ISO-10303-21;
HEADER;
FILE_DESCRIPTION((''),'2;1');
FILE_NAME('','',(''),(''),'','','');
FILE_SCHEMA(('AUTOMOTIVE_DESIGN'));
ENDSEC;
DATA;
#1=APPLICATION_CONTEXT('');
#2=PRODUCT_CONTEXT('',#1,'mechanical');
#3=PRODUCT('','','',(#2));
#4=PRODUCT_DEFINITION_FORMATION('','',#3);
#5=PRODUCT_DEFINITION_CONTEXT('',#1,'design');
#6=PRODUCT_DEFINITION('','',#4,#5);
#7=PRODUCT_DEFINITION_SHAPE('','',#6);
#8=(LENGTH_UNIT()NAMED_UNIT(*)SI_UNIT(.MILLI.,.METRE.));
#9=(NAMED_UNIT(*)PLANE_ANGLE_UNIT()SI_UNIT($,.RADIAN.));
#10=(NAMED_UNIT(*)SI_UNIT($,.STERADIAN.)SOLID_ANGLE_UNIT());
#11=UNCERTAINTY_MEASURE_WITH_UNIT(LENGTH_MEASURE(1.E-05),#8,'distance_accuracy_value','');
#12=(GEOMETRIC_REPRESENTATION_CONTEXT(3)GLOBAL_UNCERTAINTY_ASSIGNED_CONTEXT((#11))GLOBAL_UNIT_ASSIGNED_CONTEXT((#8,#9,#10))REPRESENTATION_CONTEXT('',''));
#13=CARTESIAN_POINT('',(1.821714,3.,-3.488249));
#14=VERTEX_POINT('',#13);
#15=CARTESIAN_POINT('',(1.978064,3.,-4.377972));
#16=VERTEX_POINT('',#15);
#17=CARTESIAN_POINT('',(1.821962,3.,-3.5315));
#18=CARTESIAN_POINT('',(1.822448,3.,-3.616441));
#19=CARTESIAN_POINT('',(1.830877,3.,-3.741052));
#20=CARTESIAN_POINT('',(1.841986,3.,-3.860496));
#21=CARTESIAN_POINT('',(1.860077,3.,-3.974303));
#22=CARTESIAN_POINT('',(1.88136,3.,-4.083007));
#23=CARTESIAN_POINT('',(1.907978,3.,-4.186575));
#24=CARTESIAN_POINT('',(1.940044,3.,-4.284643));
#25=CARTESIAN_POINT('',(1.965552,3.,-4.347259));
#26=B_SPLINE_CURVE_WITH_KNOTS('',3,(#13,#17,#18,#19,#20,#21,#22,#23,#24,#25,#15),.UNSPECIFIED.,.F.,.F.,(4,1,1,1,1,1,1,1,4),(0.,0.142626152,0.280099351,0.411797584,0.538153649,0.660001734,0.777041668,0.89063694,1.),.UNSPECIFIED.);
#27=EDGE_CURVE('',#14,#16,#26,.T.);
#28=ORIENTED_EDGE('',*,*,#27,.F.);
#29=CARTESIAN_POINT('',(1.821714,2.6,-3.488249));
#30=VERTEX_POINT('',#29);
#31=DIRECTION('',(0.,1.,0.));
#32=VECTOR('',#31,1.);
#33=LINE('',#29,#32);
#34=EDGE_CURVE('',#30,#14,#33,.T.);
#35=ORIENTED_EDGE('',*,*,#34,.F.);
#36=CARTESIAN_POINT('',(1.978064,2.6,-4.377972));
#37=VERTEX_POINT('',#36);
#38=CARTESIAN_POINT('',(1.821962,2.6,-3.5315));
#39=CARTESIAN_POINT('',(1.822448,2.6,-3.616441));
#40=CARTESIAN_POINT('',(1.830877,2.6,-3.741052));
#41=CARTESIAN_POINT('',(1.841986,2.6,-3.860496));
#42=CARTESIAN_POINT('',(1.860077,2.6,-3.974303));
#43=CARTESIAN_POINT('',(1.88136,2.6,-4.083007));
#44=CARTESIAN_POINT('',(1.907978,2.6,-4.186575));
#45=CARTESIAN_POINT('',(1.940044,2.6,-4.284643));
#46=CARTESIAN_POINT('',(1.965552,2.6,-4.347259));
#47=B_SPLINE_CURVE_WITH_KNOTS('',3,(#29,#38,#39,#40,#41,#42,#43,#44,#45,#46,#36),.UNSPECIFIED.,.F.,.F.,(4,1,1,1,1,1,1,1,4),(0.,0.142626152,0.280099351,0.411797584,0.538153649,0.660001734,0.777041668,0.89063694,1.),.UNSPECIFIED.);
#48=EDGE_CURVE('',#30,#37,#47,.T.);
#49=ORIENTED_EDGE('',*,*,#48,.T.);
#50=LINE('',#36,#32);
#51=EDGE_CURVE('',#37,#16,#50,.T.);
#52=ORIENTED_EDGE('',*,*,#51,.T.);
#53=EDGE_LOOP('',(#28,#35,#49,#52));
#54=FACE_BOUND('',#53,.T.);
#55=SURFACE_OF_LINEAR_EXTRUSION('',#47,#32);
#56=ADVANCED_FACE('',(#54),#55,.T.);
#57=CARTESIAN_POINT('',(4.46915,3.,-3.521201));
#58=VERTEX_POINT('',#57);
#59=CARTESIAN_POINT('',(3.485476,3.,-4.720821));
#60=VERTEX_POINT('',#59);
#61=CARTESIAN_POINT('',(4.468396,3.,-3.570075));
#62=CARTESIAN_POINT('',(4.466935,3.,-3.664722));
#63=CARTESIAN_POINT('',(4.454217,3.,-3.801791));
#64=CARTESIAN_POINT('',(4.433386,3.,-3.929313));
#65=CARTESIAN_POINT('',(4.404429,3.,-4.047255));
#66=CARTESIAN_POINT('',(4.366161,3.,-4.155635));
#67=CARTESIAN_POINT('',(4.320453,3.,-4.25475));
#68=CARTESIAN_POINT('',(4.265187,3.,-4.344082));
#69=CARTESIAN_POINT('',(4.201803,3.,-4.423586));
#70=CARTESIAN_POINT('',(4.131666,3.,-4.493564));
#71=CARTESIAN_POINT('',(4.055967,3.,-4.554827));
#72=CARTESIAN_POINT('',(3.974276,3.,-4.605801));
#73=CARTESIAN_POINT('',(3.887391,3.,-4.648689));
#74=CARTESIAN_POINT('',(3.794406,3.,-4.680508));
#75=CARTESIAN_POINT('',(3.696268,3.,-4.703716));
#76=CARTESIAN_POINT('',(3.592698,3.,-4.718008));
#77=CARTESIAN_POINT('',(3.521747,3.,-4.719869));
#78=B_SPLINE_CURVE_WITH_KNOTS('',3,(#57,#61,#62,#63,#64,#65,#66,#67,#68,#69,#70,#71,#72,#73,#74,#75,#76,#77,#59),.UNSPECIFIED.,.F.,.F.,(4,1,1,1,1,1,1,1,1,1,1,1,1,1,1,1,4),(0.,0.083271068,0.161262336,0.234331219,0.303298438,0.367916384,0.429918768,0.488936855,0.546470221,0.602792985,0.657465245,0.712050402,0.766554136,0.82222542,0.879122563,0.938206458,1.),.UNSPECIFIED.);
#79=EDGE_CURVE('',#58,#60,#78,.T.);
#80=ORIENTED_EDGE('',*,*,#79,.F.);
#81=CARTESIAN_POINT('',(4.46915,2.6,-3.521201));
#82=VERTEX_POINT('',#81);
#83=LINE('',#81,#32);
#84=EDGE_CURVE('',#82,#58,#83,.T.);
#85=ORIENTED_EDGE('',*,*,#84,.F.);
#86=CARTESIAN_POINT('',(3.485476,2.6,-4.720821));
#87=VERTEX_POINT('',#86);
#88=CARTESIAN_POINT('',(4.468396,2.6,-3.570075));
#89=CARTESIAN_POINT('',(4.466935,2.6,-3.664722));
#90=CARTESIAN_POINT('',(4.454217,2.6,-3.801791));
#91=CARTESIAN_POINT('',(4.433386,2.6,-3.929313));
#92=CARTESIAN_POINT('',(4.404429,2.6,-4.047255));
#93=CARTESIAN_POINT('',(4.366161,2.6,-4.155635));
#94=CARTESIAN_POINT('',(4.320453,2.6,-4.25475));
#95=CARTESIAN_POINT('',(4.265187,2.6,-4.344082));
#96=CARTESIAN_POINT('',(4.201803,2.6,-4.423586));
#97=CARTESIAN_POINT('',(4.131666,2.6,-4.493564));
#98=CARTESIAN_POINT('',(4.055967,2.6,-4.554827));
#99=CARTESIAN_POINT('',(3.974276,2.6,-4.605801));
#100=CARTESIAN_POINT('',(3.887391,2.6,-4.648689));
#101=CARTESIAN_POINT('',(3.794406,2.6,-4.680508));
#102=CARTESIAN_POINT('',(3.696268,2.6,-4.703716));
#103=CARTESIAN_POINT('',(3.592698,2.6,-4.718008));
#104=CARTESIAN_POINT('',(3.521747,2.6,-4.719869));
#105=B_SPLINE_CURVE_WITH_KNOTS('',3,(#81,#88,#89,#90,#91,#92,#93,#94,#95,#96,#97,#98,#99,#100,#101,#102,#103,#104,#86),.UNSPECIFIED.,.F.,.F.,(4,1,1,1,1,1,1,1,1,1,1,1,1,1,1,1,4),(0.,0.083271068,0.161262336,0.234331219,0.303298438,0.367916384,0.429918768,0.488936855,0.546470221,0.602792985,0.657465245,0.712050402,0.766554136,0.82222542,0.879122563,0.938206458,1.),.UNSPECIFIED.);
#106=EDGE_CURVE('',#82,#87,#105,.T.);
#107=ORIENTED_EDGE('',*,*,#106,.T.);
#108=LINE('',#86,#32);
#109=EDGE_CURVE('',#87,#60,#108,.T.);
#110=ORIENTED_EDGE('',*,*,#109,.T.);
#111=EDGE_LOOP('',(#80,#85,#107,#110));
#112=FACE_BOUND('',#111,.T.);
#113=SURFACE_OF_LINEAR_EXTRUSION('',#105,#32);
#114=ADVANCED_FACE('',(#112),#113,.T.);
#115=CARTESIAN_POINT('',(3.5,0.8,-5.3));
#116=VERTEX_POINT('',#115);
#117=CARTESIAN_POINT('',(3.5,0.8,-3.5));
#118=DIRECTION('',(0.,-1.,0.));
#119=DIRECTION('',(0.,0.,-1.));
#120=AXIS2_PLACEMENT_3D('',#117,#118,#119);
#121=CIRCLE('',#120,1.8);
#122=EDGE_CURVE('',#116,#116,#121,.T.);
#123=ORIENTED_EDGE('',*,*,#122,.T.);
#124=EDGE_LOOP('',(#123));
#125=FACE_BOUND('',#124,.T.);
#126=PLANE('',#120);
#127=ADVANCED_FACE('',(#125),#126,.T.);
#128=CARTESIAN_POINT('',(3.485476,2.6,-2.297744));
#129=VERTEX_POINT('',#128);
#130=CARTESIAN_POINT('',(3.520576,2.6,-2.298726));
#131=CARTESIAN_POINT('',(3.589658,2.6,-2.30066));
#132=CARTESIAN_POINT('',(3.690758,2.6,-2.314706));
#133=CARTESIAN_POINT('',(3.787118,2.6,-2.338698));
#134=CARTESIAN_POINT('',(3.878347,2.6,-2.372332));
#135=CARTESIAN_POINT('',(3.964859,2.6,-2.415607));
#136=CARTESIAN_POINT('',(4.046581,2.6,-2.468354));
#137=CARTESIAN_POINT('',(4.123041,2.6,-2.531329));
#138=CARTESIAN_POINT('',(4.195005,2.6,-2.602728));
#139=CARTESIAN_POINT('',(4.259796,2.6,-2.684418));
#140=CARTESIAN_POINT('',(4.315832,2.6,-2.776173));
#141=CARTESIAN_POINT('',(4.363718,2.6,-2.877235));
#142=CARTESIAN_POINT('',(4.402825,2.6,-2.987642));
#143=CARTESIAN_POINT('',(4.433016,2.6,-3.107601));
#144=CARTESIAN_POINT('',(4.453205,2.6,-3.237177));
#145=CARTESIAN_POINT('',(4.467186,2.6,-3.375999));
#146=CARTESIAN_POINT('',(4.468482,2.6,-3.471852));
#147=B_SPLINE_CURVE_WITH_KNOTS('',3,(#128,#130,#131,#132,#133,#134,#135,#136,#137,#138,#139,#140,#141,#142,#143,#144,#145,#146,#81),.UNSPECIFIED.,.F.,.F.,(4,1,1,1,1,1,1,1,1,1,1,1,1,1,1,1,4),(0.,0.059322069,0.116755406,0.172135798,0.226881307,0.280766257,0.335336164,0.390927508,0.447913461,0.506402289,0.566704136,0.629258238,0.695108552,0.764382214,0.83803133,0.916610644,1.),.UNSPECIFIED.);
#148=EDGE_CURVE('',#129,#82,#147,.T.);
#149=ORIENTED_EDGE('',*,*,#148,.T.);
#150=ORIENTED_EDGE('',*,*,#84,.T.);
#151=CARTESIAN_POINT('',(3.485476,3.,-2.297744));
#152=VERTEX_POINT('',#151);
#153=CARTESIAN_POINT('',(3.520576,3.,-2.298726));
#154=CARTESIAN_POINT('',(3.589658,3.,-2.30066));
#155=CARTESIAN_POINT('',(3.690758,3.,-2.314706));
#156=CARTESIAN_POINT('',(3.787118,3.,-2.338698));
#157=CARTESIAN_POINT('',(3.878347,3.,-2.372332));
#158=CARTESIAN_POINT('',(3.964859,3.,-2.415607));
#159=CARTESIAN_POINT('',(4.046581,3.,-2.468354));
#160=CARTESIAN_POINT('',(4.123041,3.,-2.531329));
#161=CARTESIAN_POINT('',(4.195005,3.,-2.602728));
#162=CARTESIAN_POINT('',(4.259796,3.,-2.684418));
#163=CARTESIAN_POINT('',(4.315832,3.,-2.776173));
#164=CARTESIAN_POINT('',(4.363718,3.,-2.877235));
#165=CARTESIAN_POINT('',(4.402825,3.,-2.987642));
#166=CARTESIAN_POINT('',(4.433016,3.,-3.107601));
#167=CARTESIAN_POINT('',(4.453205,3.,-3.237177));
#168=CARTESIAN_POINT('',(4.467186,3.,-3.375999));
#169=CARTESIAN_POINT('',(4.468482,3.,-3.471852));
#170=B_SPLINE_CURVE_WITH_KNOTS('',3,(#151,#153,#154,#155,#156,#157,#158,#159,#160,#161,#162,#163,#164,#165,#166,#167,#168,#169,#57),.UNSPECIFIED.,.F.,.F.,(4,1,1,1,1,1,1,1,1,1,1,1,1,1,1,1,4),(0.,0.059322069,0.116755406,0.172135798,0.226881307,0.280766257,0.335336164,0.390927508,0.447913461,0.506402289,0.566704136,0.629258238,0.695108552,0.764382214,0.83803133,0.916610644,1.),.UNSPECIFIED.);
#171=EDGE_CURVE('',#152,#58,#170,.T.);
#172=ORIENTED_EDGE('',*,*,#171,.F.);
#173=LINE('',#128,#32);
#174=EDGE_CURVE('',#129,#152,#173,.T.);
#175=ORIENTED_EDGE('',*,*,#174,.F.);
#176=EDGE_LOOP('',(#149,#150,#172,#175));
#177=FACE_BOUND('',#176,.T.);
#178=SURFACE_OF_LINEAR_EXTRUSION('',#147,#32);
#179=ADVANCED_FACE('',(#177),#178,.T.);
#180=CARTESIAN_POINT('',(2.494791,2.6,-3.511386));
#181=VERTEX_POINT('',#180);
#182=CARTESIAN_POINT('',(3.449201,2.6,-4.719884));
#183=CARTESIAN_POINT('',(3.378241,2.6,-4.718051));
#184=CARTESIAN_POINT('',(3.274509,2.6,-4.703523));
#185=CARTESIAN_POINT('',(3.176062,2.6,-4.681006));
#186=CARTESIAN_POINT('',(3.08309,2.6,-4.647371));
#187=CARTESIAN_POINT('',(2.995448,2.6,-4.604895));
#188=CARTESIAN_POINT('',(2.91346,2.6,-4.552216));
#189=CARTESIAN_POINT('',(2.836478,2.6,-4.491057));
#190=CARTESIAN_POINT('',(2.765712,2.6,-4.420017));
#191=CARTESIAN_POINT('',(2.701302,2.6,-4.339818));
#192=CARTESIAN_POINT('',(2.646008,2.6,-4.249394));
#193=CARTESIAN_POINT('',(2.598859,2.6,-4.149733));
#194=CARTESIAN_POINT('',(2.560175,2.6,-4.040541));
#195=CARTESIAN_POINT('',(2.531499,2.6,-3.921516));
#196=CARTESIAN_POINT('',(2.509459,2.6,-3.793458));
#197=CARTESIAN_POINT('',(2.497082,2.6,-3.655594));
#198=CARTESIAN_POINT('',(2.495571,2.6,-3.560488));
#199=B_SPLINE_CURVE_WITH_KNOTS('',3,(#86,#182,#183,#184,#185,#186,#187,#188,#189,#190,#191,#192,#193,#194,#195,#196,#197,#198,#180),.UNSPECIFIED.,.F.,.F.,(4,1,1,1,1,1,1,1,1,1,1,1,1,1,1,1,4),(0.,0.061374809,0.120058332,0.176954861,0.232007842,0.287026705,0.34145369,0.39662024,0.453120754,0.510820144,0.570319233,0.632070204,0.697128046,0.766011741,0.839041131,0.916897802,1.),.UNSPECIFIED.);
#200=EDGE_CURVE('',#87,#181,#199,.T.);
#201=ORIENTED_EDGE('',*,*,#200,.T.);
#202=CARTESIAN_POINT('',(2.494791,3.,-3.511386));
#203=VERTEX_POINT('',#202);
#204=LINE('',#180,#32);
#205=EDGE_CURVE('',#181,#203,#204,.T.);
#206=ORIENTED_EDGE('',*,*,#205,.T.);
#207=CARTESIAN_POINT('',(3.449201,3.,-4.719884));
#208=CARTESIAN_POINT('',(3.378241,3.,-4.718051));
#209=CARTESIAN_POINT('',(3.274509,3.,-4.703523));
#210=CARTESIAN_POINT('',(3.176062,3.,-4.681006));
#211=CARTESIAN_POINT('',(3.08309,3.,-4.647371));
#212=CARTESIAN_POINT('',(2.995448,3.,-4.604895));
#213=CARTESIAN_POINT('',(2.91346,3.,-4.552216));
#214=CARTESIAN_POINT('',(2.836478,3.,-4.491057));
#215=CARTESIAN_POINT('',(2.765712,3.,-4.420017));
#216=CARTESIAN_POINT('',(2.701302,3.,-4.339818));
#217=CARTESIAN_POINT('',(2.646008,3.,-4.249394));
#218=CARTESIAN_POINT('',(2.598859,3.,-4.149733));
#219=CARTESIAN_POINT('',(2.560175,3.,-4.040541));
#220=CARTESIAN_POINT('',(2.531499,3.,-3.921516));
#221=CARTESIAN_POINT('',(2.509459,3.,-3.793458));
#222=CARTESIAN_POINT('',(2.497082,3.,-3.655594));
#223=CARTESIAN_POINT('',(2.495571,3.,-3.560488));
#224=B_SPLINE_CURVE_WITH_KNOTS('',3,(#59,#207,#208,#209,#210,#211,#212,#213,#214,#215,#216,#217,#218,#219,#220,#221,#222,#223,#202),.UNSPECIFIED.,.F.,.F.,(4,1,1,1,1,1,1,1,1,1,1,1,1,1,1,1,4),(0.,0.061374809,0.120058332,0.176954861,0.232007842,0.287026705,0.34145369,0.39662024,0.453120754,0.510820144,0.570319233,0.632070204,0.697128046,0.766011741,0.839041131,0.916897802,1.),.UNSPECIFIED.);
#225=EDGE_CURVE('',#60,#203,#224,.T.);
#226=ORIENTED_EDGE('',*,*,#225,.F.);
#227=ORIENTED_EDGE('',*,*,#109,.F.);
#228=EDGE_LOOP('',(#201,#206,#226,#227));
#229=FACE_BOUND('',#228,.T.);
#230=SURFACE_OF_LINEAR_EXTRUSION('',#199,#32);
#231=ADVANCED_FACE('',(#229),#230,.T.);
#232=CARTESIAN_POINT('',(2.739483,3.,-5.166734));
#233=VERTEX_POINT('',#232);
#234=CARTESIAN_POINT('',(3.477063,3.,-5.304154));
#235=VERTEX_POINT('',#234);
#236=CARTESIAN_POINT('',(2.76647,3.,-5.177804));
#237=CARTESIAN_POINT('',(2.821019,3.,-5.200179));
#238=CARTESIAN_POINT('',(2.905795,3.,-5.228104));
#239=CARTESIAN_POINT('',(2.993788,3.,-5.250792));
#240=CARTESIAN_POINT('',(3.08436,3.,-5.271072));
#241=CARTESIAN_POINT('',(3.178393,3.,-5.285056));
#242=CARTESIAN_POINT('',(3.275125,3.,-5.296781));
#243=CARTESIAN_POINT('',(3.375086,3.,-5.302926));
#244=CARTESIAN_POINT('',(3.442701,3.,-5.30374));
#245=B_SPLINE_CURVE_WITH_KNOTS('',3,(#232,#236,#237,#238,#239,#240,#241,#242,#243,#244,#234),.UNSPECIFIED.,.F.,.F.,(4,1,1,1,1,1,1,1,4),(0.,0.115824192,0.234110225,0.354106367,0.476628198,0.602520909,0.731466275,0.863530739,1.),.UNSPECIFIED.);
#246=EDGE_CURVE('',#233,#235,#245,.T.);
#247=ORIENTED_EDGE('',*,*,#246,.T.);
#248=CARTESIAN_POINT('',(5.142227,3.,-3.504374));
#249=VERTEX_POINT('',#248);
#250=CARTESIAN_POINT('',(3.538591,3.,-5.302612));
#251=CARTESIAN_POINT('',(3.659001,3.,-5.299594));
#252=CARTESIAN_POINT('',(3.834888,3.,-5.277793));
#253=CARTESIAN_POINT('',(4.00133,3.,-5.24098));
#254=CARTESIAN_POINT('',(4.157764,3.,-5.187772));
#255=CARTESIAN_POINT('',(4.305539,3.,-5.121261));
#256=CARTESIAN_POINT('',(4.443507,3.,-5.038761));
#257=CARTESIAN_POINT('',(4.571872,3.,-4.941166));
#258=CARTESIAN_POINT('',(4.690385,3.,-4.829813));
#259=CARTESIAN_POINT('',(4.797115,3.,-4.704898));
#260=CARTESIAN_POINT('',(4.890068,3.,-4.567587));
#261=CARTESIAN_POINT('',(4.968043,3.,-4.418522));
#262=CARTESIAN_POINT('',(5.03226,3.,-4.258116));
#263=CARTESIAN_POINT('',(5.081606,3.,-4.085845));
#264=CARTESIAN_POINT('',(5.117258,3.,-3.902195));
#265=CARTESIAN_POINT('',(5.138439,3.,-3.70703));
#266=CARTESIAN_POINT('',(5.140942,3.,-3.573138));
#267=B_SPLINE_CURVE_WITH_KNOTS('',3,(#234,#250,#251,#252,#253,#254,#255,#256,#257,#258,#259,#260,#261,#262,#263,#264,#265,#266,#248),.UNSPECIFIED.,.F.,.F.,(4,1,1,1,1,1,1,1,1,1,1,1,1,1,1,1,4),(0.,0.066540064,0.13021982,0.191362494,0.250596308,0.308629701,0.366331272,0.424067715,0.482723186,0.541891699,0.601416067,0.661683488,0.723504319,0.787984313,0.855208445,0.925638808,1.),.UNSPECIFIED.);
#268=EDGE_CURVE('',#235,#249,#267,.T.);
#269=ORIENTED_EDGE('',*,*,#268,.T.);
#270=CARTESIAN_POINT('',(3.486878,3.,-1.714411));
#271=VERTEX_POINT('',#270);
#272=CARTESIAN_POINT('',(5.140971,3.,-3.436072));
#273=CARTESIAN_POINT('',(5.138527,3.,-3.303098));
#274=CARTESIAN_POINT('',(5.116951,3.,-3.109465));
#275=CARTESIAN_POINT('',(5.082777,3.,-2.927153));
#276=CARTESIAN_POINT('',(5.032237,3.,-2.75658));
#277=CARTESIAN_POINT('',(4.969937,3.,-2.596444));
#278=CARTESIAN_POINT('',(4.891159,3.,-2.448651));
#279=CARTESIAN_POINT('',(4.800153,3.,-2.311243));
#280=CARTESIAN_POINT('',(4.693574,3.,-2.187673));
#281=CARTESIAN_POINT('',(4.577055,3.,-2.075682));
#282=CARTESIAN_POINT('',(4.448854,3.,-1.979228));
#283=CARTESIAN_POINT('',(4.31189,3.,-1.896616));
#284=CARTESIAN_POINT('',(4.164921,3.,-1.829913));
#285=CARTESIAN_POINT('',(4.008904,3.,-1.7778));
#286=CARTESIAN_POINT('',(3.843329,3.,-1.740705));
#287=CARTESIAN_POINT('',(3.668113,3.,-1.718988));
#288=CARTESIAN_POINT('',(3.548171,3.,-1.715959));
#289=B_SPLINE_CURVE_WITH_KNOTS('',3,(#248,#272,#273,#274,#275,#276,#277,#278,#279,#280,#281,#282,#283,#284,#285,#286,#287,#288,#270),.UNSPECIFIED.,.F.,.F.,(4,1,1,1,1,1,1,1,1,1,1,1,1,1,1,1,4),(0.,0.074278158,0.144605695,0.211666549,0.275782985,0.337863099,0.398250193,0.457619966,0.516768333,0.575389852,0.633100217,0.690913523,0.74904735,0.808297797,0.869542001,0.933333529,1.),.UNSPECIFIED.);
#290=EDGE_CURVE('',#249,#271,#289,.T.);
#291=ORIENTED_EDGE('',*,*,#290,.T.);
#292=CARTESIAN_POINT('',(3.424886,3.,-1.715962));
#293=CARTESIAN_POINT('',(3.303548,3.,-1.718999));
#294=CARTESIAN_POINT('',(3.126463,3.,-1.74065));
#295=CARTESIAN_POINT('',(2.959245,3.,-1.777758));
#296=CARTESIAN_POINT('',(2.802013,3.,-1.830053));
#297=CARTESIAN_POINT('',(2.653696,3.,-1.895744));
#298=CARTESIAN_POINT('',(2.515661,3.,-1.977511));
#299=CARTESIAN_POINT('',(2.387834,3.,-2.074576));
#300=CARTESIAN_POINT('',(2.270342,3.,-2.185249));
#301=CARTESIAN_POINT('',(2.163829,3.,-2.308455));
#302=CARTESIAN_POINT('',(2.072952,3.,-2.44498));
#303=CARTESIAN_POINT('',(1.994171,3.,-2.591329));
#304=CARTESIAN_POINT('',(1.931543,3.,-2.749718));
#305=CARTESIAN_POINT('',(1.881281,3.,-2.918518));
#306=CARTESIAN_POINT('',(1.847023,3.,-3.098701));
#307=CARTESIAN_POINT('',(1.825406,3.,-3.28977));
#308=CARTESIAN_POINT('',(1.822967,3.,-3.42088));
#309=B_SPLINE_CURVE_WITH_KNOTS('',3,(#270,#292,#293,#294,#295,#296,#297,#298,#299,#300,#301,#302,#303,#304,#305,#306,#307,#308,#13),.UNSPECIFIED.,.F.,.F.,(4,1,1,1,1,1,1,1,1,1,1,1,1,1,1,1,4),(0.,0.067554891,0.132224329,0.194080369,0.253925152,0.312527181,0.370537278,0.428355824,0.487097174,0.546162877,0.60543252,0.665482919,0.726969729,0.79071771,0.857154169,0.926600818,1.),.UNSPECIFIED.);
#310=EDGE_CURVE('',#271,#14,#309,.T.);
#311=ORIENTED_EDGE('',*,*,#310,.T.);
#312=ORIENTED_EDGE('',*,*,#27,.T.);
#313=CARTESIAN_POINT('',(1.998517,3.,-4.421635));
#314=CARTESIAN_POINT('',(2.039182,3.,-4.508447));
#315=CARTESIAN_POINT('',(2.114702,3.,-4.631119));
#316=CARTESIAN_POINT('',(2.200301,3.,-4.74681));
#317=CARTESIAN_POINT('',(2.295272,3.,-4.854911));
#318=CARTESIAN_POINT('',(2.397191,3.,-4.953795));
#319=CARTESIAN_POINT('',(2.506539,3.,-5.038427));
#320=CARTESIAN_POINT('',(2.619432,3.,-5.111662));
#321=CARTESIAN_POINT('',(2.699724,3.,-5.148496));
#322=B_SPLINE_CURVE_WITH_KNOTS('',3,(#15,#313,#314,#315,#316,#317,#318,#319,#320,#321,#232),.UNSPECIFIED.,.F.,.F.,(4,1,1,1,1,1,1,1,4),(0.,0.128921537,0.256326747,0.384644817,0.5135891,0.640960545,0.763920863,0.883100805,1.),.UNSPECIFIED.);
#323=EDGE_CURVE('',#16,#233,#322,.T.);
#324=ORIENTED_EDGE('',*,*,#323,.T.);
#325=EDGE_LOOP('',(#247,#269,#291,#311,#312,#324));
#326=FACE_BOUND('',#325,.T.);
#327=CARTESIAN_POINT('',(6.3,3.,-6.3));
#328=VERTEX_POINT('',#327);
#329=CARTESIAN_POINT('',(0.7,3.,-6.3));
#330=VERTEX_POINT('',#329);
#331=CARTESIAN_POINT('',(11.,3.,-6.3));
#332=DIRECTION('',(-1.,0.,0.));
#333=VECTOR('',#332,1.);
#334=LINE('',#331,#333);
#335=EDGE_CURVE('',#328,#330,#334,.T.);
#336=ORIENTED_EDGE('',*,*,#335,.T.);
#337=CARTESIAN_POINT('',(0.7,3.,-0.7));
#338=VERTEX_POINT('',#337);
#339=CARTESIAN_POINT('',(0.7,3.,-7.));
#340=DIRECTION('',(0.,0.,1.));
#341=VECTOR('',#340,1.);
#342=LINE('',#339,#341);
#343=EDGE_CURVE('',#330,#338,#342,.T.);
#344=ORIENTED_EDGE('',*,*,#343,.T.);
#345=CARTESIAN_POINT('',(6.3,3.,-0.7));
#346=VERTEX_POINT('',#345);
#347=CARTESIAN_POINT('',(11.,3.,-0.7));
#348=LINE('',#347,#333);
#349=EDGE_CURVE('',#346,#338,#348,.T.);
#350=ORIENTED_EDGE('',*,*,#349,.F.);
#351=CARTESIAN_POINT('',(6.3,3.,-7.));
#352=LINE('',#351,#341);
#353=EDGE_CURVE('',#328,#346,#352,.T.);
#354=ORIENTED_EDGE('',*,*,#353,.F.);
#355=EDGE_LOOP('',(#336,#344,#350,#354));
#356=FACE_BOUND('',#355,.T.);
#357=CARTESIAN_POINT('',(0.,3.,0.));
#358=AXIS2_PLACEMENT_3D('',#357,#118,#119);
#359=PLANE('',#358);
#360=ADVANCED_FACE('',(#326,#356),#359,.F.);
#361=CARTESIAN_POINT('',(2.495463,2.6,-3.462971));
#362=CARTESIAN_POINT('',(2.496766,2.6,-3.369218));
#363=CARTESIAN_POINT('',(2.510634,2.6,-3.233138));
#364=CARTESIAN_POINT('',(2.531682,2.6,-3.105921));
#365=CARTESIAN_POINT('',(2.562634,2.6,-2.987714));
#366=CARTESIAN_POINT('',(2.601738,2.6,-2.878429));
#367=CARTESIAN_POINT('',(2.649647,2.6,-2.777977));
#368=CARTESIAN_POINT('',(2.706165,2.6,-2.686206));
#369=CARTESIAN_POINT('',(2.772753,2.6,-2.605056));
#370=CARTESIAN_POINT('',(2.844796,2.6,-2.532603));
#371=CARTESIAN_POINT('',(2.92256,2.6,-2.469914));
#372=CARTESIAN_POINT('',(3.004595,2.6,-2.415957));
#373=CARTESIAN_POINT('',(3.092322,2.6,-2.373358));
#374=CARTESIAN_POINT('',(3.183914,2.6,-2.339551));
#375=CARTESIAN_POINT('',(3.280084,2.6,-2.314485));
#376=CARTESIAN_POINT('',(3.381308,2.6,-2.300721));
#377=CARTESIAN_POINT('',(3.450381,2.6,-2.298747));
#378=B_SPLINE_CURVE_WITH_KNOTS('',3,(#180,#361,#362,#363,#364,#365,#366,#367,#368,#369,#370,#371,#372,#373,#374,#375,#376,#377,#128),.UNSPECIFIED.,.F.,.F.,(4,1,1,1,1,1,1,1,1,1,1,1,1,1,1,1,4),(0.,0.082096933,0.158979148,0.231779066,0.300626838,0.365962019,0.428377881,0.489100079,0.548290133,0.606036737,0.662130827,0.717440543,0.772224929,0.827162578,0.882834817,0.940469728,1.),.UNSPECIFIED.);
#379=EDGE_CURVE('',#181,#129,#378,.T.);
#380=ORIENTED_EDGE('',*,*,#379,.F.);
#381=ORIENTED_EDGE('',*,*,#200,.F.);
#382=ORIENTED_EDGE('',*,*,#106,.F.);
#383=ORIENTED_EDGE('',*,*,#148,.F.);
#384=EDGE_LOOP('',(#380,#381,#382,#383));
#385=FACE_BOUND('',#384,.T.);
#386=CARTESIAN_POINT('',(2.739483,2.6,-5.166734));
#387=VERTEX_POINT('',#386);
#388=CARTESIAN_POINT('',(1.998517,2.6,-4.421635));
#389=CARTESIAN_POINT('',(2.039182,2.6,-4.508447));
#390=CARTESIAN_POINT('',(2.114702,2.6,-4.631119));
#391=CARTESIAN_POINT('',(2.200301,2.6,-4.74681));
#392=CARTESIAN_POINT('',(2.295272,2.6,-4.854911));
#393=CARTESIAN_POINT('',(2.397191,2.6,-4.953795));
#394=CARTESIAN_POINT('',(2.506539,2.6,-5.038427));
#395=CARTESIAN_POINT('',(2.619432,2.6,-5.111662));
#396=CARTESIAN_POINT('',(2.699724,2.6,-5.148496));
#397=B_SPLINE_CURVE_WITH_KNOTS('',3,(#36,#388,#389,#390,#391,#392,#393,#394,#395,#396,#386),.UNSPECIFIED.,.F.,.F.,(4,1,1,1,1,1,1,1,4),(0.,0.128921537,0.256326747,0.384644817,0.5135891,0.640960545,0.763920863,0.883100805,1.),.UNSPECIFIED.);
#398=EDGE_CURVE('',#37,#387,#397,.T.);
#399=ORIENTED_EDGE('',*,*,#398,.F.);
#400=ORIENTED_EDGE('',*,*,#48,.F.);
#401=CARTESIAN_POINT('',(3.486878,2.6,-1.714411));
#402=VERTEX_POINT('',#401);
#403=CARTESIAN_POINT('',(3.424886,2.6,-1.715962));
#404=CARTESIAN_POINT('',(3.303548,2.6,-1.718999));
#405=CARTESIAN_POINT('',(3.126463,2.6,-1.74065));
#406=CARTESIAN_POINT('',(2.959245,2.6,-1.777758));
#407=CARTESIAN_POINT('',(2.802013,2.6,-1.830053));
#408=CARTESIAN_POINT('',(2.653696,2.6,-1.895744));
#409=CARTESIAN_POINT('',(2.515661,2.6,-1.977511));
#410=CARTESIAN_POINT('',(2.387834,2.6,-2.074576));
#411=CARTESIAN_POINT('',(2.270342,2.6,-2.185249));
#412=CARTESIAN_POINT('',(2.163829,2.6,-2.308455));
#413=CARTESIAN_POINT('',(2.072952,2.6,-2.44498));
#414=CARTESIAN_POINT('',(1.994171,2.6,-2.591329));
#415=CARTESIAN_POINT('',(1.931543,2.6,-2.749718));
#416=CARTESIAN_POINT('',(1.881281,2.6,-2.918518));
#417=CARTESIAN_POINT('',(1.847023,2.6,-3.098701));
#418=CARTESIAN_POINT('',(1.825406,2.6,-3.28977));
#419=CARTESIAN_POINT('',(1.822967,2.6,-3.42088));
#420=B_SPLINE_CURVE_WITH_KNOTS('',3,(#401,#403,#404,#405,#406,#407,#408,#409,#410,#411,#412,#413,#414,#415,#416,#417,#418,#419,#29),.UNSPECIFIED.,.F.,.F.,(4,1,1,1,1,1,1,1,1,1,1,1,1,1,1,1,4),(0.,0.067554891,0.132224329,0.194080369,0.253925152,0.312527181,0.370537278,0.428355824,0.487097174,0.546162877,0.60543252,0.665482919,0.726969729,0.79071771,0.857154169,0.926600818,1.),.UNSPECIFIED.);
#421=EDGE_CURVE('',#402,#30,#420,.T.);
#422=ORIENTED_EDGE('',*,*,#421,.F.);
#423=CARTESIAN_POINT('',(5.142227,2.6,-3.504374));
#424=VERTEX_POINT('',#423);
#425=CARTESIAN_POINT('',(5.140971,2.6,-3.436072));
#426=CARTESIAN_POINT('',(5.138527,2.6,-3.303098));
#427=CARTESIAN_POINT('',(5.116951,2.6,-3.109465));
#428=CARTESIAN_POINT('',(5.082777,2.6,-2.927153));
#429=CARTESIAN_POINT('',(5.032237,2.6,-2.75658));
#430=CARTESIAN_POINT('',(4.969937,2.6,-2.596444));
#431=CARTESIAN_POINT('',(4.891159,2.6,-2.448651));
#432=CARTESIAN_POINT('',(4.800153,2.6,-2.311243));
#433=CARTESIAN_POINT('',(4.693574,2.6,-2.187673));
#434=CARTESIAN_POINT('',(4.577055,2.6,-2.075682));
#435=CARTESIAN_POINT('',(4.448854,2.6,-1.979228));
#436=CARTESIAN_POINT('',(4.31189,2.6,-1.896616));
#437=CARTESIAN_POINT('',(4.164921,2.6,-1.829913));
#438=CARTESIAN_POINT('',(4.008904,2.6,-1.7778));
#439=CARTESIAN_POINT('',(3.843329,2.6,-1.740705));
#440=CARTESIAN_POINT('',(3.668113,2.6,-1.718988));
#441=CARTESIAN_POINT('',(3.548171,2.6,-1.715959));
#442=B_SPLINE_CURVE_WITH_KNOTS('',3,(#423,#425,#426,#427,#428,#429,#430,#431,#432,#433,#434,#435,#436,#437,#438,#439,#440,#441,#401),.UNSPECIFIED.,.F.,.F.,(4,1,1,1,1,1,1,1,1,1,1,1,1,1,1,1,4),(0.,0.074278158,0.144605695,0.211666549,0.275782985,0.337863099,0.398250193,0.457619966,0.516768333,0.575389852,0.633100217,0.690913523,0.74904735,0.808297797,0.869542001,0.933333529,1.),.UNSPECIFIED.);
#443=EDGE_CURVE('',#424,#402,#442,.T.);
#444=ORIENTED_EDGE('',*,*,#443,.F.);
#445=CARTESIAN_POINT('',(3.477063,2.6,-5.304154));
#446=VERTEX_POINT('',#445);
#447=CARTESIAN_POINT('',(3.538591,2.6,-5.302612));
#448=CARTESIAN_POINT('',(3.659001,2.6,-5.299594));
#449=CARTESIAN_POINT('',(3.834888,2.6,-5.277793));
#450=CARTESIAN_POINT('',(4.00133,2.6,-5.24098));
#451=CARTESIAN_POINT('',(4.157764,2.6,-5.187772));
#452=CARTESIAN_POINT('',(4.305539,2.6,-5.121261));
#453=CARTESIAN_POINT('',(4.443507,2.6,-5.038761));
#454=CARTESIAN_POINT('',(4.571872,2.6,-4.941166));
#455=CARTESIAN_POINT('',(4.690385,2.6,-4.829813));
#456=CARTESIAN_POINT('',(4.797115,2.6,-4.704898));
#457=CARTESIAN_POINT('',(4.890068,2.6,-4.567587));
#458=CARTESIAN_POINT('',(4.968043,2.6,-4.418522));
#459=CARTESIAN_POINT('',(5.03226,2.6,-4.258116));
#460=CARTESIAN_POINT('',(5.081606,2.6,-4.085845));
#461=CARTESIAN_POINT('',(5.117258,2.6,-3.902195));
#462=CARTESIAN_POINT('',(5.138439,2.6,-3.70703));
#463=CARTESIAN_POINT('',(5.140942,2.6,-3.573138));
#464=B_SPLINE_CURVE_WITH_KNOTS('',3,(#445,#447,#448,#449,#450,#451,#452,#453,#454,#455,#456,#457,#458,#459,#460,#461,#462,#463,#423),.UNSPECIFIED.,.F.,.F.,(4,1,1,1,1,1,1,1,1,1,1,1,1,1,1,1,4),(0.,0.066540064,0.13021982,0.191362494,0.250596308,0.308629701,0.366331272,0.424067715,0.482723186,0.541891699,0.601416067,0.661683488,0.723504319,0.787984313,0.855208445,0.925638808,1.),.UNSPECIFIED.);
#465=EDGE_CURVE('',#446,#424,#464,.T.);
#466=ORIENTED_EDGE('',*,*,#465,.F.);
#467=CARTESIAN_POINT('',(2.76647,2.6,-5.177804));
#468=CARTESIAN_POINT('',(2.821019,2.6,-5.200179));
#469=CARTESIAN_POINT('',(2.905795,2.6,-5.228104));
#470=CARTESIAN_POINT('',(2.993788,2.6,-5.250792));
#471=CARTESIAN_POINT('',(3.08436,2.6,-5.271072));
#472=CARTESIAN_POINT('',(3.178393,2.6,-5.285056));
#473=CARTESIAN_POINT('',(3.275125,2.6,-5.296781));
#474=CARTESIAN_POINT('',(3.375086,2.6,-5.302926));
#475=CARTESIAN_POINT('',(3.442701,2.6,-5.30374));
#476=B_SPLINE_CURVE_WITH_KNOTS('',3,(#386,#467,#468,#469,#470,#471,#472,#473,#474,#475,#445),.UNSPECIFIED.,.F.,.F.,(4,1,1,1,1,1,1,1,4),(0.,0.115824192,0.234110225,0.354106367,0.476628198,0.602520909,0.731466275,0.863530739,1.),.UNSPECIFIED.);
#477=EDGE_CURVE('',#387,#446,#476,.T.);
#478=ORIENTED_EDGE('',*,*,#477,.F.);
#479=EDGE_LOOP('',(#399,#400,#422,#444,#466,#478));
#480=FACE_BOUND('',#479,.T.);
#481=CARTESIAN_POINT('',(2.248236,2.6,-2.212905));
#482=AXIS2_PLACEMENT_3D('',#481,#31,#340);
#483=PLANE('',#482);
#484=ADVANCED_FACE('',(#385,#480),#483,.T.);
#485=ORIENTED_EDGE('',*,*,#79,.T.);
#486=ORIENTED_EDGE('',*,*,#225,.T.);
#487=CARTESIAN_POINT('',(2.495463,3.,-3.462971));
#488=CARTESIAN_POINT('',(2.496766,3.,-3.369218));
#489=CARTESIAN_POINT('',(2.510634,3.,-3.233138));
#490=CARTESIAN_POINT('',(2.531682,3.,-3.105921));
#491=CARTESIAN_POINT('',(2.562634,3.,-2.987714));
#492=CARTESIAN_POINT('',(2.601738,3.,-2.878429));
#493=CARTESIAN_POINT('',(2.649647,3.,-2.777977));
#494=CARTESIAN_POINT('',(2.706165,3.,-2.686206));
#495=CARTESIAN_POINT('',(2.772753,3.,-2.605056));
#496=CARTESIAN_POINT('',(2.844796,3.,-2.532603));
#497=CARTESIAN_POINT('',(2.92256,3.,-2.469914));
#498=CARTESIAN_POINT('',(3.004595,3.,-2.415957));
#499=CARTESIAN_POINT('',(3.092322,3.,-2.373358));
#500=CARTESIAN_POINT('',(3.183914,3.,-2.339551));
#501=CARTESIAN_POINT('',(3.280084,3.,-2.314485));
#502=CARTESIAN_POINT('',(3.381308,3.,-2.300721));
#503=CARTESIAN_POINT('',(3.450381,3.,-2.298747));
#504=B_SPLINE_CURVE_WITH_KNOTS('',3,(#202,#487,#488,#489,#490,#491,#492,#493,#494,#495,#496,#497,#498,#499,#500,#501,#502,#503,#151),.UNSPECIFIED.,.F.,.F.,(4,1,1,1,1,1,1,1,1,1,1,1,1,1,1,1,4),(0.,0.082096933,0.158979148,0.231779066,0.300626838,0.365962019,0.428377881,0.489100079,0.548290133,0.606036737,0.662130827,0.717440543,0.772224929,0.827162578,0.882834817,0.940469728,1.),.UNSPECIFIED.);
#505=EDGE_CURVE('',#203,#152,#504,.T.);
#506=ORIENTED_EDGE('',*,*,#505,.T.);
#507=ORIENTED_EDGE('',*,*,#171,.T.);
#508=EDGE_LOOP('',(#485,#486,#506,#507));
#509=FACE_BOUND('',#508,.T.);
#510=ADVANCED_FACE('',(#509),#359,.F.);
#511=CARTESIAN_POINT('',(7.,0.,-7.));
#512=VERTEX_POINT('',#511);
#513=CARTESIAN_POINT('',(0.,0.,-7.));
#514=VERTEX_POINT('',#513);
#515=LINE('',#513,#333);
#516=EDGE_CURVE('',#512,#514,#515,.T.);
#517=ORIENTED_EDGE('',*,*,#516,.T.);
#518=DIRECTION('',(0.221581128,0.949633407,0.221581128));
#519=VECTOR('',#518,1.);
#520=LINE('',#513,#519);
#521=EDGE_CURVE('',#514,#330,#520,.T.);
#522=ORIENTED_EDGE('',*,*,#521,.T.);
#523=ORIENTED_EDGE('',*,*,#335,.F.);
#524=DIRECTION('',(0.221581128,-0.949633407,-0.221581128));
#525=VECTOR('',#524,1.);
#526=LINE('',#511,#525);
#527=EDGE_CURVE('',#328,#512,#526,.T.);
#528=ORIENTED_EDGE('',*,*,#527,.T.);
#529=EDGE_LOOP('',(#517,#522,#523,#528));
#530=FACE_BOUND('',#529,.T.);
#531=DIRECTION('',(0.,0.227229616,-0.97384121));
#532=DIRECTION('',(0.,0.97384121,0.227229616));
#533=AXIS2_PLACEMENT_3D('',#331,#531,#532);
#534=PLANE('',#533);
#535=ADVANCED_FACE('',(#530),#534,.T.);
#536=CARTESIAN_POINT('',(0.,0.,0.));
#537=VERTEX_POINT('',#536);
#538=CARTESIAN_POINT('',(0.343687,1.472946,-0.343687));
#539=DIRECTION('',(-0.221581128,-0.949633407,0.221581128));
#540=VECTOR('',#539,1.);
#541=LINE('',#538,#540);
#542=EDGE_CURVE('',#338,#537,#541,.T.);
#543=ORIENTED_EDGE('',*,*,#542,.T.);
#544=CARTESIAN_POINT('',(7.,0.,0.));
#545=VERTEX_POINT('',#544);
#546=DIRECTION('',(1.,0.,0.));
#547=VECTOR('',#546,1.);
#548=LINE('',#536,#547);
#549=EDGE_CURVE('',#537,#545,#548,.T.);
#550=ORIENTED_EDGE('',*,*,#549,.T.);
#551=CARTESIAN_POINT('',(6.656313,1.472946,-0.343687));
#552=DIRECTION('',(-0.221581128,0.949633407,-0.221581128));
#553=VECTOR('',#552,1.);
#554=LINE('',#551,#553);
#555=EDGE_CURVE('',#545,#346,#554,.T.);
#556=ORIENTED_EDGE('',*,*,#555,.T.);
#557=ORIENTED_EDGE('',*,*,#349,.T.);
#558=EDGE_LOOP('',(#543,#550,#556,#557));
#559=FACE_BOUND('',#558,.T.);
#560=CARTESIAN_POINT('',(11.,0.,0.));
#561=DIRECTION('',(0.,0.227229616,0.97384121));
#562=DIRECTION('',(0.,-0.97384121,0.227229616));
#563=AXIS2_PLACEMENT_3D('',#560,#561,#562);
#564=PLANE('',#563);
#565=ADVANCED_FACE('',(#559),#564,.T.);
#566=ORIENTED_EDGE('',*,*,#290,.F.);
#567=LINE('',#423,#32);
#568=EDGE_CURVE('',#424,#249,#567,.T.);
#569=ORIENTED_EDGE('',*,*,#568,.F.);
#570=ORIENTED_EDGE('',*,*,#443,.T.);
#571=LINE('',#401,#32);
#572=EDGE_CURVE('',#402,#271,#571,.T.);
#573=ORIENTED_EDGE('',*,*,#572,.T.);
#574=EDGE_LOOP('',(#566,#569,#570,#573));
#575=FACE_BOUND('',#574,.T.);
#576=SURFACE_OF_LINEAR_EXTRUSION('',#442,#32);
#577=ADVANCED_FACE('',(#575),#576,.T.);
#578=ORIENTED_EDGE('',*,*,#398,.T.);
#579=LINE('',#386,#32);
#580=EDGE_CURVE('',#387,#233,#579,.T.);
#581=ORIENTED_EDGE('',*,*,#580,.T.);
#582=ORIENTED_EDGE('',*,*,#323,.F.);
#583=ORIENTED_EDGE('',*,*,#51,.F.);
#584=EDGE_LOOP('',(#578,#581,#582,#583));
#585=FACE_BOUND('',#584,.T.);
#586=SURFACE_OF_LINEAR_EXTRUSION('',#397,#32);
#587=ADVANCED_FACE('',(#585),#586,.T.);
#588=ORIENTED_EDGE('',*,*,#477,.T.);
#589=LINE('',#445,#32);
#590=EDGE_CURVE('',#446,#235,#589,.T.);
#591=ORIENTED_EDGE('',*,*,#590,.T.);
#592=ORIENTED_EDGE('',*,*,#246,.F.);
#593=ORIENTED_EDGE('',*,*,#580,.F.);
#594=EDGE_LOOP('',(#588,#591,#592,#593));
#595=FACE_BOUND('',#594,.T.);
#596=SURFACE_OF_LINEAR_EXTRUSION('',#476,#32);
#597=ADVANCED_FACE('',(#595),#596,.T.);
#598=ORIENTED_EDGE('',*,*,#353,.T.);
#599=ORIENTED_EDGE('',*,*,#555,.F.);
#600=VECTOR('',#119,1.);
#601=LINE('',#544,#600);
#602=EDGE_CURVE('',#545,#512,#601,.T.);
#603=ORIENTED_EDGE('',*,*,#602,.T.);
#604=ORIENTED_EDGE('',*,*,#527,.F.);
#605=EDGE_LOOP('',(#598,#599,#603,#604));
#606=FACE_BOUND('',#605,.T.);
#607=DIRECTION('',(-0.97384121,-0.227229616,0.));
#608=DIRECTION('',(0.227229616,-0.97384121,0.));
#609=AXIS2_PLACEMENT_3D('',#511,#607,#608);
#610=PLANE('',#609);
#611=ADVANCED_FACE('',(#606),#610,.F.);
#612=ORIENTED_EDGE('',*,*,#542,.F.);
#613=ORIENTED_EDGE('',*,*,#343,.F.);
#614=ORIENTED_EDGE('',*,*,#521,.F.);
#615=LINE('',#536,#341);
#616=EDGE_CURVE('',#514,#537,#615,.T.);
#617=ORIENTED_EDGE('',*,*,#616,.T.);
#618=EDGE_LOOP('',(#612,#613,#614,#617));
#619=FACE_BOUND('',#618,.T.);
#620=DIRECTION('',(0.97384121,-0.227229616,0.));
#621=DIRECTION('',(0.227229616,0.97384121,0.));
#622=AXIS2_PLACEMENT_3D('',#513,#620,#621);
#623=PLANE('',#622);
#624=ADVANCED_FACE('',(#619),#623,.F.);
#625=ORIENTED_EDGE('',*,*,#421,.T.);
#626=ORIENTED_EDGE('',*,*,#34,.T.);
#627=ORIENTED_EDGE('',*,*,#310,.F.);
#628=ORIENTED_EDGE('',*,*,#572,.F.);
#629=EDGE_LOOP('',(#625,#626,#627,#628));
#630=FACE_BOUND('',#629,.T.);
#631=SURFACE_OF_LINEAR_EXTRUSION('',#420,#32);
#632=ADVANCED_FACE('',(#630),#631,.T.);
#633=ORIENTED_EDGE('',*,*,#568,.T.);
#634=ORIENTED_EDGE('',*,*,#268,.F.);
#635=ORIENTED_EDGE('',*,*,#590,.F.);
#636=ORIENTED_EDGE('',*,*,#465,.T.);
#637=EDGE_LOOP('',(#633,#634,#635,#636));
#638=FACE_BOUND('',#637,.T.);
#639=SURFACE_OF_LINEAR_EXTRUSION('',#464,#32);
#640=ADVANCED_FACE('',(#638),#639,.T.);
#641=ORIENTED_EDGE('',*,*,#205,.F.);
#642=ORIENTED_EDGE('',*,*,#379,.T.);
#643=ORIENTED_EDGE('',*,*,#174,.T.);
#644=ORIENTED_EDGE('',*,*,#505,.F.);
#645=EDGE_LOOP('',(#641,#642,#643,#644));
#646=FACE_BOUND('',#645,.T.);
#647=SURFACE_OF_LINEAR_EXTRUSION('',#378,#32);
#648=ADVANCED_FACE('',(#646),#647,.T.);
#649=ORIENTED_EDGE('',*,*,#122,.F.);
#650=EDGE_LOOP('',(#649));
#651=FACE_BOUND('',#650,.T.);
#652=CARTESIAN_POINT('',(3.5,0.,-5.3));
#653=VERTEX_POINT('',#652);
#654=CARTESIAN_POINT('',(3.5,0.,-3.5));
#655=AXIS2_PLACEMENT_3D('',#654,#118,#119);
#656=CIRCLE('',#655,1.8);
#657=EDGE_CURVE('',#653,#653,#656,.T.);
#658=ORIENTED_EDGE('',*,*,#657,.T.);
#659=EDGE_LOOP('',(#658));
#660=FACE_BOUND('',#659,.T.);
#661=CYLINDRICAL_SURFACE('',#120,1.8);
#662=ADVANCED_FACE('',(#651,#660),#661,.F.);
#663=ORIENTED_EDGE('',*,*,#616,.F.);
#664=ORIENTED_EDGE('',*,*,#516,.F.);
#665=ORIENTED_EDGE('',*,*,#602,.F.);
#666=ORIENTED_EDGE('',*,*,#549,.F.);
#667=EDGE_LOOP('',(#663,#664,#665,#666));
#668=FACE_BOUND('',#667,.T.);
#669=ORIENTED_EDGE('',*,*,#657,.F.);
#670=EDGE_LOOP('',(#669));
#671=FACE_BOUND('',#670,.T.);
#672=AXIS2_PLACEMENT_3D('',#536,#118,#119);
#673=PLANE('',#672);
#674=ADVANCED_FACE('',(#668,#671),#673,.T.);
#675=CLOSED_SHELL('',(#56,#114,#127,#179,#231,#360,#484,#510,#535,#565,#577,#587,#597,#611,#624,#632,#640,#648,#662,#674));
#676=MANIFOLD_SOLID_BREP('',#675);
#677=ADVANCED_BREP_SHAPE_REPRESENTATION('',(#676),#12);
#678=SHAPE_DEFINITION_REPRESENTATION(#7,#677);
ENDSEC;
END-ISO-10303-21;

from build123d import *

# Parameters (mm, degrees)
SKETCH1_W           = 7
SKETCH1_H           = 7
BOSS_EXTRUDE1_DEPTH = 3
CUT_EXTRUDE1_DEPTH  = 7
CUT_EXTRUDE2_DEPTH  = 11
SKETCH4_R           = 1.8
CUT_EXTRUDE3_DEPTH  = 0.8
CUT_EXTRUDE4_DEPTH  = 0.4


with BuildPart() as part:
    # Sketch1 → Boss-Extrude1 (new body)
    with BuildSketch(Plane(origin=(0, 0, 0), x_dir=(1, 0, 0), z_dir=(0, 1, 0))):
        with Locations((3.5, 3.5)):
            Rectangle(SKETCH1_W, SKETCH1_H)
    extrude(amount=BOSS_EXTRUDE1_DEPTH)

    # Sketch2 → Cut-Extrude1 (cut)
    with BuildSketch(Plane.XY):
        Polygon((0, 0), (0.7, 3), (0, 3), align=None)
        Polygon((7, 0), (6.3, 3), (7, 3), align=None)
    extrude(amount=-CUT_EXTRUDE1_DEPTH, mode=Mode.SUBTRACT)

    # Sketch3 → Cut-Extrude2 (cut)
    with BuildSketch(Plane(origin=(0, 0, 0), x_dir=(0, 0, -1), z_dir=(1, 0, 0))):
        Polygon((0, 0), (0.7, 3), (0, 3), align=None)
        Polygon((7, 3), (6.3, 3), (7, 0), align=None)
    extrude(amount=CUT_EXTRUDE2_DEPTH, mode=Mode.SUBTRACT)

    # Sketch4 → Cut-Extrude3 (cut)
    with BuildSketch(Plane.XZ):
        with Locations(Location((3.5, -3.5, 0), (0, 0, 270))):
            Circle(SKETCH4_R)
    extrude(amount=-CUT_EXTRUDE3_DEPTH, mode=Mode.SUBTRACT)

    # Sketch5 → Cut-Extrude4 (cut)
    with BuildSketch(Plane(origin=(0, 3, 0), x_dir=(1, 0, 0), z_dir=(0, 1, 0))):
        with BuildLine():
            add(Edge.make_bspline(
                [(1.821714103, 3.488248698), (1.821961784, 3.531500253), (1.822448196, 3.616440725), (1.830876604, 3.741051587), (1.841985901, 3.86049575), (1.860077374, 3.974303397), (1.881359551, 4.083007187), (1.907977906, 4.186574853), (1.940043598, 4.284643186), (1.96555211, 4.347258757), (1.978064263, 4.377972255)],
                knots=[0, 0, 0, 0, 1.141009212, 2.240794809, 3.294380675, 4.305229195, 5.280013876, 6.216333343, 7.125095522, 8, 8, 8, 8], degree=3))
            add(Edge.make_bspline(
                [(1.978064263, 4.377972255), (1.998516886, 4.421635051), (2.039181575, 4.508447097), (2.114702293, 4.631119496), (2.200300575, 4.746809508), (2.295271713, 4.854910638), (2.397191064, 4.953795484), (2.506539435, 5.038426674), (2.619432008, 5.111662383), (2.699724257, 5.148495592), (2.739482532, 5.166734275)],
                knots=[0, 0, 0, 0, 1.031372299, 2.050613973, 3.077158538, 4.108712802, 5.127684358, 6.111366908, 7.06480644, 8, 8, 8, 8], degree=3))
            add(Edge.make_bspline(
                [(2.739482532, 5.166734275), (2.766470301, 5.177804055), (2.821019461, 5.200178904), (2.905795278, 5.228103887), (2.993787729, 5.250791674), (3.084360371, 5.271071912), (3.178392588, 5.285055803), (3.27512456, 5.296780816), (3.375085669, 5.302926099), (3.442700631, 5.303740345), (3.47706266, 5.304154146)],
                knots=[0, 0, 0, 0, 0.92659354, 1.872881803, 2.832850937, 3.813025581, 4.820167273, 5.851730198, 6.908245912, 8, 8, 8, 8], degree=3))
            add(Edge.make_bspline(
                [(3.47706266, 5.304154146), (3.538590536, 5.302611845), (3.659001433, 5.299593539), (3.834887941, 5.277792675), (4.001329981, 5.240979909), (4.157764144, 5.187771817), (4.305539157, 5.121260548), (4.443506895, 5.038760892), (4.571871554, 4.941165749), (4.690385205, 4.829813461), (4.797115236, 4.704898086), (4.890068226, 4.567586522), (4.968043218, 4.418522223), (5.032260126, 4.258116463), (5.081605981, 4.085845307), (5.117258315, 3.902194835), (5.138438688, 3.707029775), (5.140941529, 3.573137898), (5.142226923, 3.504374499)],
                knots=[0, 0, 0, 0, 1.064641025, 2.083517118, 3.061799897, 4.009540929, 4.938075217, 5.861300345, 6.78508344, 7.723570974, 8.670267188, 9.622657076, 10.586935816, 11.576069104, 12.607749008, 13.683335114, 14.81022093, 16, 16, 16, 16], degree=3))
            add(Edge.make_bspline(
                [(5.142226923, 3.504374499), (5.140971218, 3.436071549), (5.138526593, 3.303098467), (5.116950876, 3.109464875), (5.082776635, 2.92715322), (5.032236807, 2.75657997), (4.969936504, 2.596443536), (4.89115913, 2.448651271), (4.800152856, 2.311242808), (4.693574415, 2.187673494), (4.577055417, 2.075682155), (4.448853581, 1.979227653), (4.31189018, 1.896616215), (4.164920865, 1.829912739), (4.008903554, 1.777800449), (3.843329096, 1.740704804), (3.668112571, 1.718987832), (3.548170832, 1.715958568), (3.486878366, 1.714410557)],
                knots=[0, 0, 0, 0, 1.18845052, 2.313691126, 3.386664782, 4.412527756, 5.405809582, 6.372003093, 7.321919452, 8.268293321, 9.206237639, 10.129603466, 11.054616372, 11.9847576, 12.932764752, 13.912672021, 14.933336461, 16, 16, 16, 16], degree=3))
            add(Edge.make_bspline(
                [(3.486878366, 1.714410557), (3.424885779, 1.71596214), (3.303548476, 1.718999034), (3.126463104, 1.7406499), (2.959245037, 1.777757756), (2.802013351, 1.830053351), (2.653695695, 1.895743521), (2.51566143, 1.97751079), (2.387834254, 2.074576155), (2.270341671, 2.185249258), (2.163829132, 2.308455276), (2.072952075, 2.444980241), (1.994170592, 2.591328945), (1.931542745, 2.74971822), (1.881281222, 2.918518444), (1.847023473, 3.098700906), (1.825406036, 3.289769697), (1.822967241, 3.420879762), (1.821714103, 3.488248698)],
                knots=[0, 0, 0, 0, 1.080878253, 2.11558926, 3.1052859, 4.062802436, 5.000434901, 5.928596448, 6.853693179, 7.793554778, 8.738606028, 9.68692032, 10.647726704, 11.63151566, 12.651483354, 13.714466703, 14.825613081, 16, 16, 16, 16], degree=3))
        make_face()
        with BuildLine():
            add(Edge.make_bspline(
                [(2.494791026, 3.511385717), (2.495463421, 3.46297147), (2.496765502, 3.369218203), (2.510634389, 3.233137604), (2.531681539, 3.105921329), (2.562634465, 2.987713764), (2.601737596, 2.878429396), (2.649647038, 2.77797681), (2.7061648, 2.686206391), (2.772752717, 2.605055542), (2.844795621, 2.532603477), (2.92255951, 2.469914167), (3.004595136, 2.415957097), (3.092321967, 2.373358172), (3.183914249, 2.339551264), (3.280083591, 2.31448468), (3.381308169, 2.300720664), (3.450381011, 2.298746792), (3.485476122, 2.29774389)],
                knots=[0, 0, 0, 0, 1.313550922, 2.543666373, 3.708465049, 4.810029406, 5.85539231, 6.85404609, 7.825601258, 8.772642133, 9.696587791, 10.59409323, 11.479048685, 12.35559886, 13.234601248, 14.125357077, 15.047515647, 16, 16, 16, 16], degree=3))
            add(Edge.make_bspline(
                [(3.485476122, 2.29774389), (3.520575961, 2.298726471), (3.589658109, 2.30066035), (3.690758312, 2.31470579), (3.787118236, 2.338697967), (3.878346649, 2.372331634), (3.964859358, 2.415606978), (4.046581009, 2.468354444), (4.123040539, 2.531328963), (4.195005026, 2.602728481), (4.259795575, 2.684418325), (4.315832134, 2.776172907), (4.363717971, 2.877234741), (4.40282522, 2.987641635), (4.433016388, 3.107601318), (4.453204553, 3.23717726), (4.467185589, 3.375998963), (4.46848236, 3.471851744), (4.46915, 3.521201422)],
                knots=[0, 0, 0, 0, 0.949153107, 1.868086493, 2.754172764, 3.630100905, 4.492260106, 5.365378617, 6.254840125, 7.166615376, 8.102436631, 9.067266169, 10.06813181, 11.121736829, 12.23011542, 13.408501285, 14.665770308, 16, 16, 16, 16], degree=3))
            add(Edge.make_bspline(
                [(4.46915, 3.521201422), (4.468395892, 3.570074602), (4.466935489, 3.66472216), (4.45421689, 3.801791371), (4.433386174, 3.929313247), (4.404429177, 4.047254755), (4.366160687, 4.155634899), (4.320453453, 4.254750055), (4.265186916, 4.344082401), (4.20180297, 4.423585682), (4.131665715, 4.493563899), (4.055966759, 4.554826829), (3.974276008, 4.605801311), (3.88739075, 4.648689422), (3.794406419, 4.680507955), (3.696267954, 4.703716125), (3.592697629, 4.718007752), (3.521746781, 4.719869217), (3.485476122, 4.720820813)],
                knots=[0, 0, 0, 0, 1.332337092, 2.580197383, 3.749299508, 4.852775005, 5.886662144, 6.878700295, 7.822989687, 8.743523536, 9.644687758, 10.519443927, 11.392806431, 12.264866173, 13.155606721, 14.065961015, 15.011303331, 16, 16, 16, 16], degree=3))
            add(Edge.make_bspline(
                [(3.485476122, 4.720820813), (3.449200879, 4.719883854), (3.378241063, 4.718051022), (3.274509295, 4.703522778), (3.176061662, 4.681006152), (3.083090474, 4.647370777), (2.995448418, 4.604894527), (2.913459658, 4.552215512), (2.836478148, 4.49105655), (2.765712484, 4.420017304), (2.701301518, 4.339817822), (2.646008366, 4.249393926), (2.598858806, 4.149733156), (2.560175326, 4.040540508), (2.531498905, 3.9215156), (2.509458688, 3.79345835), (2.49708172, 3.655593683), (2.495571002, 3.560488178), (2.494791026, 3.511385717)],
                knots=[0, 0, 0, 0, 0.981996942, 1.920933313, 2.83127778, 3.712125466, 4.592427284, 5.463259035, 6.34592384, 7.249932058, 8.173122297, 9.125107726, 10.113123258, 11.154048744, 12.256187849, 13.424658091, 14.670364834, 16, 16, 16, 16], degree=3))
        make_face(mode=Mode.SUBTRACT)
    extrude(amount=-CUT_EXTRUDE4_DEPTH, mode=Mode.SUBTRACT)


solid = part.part
